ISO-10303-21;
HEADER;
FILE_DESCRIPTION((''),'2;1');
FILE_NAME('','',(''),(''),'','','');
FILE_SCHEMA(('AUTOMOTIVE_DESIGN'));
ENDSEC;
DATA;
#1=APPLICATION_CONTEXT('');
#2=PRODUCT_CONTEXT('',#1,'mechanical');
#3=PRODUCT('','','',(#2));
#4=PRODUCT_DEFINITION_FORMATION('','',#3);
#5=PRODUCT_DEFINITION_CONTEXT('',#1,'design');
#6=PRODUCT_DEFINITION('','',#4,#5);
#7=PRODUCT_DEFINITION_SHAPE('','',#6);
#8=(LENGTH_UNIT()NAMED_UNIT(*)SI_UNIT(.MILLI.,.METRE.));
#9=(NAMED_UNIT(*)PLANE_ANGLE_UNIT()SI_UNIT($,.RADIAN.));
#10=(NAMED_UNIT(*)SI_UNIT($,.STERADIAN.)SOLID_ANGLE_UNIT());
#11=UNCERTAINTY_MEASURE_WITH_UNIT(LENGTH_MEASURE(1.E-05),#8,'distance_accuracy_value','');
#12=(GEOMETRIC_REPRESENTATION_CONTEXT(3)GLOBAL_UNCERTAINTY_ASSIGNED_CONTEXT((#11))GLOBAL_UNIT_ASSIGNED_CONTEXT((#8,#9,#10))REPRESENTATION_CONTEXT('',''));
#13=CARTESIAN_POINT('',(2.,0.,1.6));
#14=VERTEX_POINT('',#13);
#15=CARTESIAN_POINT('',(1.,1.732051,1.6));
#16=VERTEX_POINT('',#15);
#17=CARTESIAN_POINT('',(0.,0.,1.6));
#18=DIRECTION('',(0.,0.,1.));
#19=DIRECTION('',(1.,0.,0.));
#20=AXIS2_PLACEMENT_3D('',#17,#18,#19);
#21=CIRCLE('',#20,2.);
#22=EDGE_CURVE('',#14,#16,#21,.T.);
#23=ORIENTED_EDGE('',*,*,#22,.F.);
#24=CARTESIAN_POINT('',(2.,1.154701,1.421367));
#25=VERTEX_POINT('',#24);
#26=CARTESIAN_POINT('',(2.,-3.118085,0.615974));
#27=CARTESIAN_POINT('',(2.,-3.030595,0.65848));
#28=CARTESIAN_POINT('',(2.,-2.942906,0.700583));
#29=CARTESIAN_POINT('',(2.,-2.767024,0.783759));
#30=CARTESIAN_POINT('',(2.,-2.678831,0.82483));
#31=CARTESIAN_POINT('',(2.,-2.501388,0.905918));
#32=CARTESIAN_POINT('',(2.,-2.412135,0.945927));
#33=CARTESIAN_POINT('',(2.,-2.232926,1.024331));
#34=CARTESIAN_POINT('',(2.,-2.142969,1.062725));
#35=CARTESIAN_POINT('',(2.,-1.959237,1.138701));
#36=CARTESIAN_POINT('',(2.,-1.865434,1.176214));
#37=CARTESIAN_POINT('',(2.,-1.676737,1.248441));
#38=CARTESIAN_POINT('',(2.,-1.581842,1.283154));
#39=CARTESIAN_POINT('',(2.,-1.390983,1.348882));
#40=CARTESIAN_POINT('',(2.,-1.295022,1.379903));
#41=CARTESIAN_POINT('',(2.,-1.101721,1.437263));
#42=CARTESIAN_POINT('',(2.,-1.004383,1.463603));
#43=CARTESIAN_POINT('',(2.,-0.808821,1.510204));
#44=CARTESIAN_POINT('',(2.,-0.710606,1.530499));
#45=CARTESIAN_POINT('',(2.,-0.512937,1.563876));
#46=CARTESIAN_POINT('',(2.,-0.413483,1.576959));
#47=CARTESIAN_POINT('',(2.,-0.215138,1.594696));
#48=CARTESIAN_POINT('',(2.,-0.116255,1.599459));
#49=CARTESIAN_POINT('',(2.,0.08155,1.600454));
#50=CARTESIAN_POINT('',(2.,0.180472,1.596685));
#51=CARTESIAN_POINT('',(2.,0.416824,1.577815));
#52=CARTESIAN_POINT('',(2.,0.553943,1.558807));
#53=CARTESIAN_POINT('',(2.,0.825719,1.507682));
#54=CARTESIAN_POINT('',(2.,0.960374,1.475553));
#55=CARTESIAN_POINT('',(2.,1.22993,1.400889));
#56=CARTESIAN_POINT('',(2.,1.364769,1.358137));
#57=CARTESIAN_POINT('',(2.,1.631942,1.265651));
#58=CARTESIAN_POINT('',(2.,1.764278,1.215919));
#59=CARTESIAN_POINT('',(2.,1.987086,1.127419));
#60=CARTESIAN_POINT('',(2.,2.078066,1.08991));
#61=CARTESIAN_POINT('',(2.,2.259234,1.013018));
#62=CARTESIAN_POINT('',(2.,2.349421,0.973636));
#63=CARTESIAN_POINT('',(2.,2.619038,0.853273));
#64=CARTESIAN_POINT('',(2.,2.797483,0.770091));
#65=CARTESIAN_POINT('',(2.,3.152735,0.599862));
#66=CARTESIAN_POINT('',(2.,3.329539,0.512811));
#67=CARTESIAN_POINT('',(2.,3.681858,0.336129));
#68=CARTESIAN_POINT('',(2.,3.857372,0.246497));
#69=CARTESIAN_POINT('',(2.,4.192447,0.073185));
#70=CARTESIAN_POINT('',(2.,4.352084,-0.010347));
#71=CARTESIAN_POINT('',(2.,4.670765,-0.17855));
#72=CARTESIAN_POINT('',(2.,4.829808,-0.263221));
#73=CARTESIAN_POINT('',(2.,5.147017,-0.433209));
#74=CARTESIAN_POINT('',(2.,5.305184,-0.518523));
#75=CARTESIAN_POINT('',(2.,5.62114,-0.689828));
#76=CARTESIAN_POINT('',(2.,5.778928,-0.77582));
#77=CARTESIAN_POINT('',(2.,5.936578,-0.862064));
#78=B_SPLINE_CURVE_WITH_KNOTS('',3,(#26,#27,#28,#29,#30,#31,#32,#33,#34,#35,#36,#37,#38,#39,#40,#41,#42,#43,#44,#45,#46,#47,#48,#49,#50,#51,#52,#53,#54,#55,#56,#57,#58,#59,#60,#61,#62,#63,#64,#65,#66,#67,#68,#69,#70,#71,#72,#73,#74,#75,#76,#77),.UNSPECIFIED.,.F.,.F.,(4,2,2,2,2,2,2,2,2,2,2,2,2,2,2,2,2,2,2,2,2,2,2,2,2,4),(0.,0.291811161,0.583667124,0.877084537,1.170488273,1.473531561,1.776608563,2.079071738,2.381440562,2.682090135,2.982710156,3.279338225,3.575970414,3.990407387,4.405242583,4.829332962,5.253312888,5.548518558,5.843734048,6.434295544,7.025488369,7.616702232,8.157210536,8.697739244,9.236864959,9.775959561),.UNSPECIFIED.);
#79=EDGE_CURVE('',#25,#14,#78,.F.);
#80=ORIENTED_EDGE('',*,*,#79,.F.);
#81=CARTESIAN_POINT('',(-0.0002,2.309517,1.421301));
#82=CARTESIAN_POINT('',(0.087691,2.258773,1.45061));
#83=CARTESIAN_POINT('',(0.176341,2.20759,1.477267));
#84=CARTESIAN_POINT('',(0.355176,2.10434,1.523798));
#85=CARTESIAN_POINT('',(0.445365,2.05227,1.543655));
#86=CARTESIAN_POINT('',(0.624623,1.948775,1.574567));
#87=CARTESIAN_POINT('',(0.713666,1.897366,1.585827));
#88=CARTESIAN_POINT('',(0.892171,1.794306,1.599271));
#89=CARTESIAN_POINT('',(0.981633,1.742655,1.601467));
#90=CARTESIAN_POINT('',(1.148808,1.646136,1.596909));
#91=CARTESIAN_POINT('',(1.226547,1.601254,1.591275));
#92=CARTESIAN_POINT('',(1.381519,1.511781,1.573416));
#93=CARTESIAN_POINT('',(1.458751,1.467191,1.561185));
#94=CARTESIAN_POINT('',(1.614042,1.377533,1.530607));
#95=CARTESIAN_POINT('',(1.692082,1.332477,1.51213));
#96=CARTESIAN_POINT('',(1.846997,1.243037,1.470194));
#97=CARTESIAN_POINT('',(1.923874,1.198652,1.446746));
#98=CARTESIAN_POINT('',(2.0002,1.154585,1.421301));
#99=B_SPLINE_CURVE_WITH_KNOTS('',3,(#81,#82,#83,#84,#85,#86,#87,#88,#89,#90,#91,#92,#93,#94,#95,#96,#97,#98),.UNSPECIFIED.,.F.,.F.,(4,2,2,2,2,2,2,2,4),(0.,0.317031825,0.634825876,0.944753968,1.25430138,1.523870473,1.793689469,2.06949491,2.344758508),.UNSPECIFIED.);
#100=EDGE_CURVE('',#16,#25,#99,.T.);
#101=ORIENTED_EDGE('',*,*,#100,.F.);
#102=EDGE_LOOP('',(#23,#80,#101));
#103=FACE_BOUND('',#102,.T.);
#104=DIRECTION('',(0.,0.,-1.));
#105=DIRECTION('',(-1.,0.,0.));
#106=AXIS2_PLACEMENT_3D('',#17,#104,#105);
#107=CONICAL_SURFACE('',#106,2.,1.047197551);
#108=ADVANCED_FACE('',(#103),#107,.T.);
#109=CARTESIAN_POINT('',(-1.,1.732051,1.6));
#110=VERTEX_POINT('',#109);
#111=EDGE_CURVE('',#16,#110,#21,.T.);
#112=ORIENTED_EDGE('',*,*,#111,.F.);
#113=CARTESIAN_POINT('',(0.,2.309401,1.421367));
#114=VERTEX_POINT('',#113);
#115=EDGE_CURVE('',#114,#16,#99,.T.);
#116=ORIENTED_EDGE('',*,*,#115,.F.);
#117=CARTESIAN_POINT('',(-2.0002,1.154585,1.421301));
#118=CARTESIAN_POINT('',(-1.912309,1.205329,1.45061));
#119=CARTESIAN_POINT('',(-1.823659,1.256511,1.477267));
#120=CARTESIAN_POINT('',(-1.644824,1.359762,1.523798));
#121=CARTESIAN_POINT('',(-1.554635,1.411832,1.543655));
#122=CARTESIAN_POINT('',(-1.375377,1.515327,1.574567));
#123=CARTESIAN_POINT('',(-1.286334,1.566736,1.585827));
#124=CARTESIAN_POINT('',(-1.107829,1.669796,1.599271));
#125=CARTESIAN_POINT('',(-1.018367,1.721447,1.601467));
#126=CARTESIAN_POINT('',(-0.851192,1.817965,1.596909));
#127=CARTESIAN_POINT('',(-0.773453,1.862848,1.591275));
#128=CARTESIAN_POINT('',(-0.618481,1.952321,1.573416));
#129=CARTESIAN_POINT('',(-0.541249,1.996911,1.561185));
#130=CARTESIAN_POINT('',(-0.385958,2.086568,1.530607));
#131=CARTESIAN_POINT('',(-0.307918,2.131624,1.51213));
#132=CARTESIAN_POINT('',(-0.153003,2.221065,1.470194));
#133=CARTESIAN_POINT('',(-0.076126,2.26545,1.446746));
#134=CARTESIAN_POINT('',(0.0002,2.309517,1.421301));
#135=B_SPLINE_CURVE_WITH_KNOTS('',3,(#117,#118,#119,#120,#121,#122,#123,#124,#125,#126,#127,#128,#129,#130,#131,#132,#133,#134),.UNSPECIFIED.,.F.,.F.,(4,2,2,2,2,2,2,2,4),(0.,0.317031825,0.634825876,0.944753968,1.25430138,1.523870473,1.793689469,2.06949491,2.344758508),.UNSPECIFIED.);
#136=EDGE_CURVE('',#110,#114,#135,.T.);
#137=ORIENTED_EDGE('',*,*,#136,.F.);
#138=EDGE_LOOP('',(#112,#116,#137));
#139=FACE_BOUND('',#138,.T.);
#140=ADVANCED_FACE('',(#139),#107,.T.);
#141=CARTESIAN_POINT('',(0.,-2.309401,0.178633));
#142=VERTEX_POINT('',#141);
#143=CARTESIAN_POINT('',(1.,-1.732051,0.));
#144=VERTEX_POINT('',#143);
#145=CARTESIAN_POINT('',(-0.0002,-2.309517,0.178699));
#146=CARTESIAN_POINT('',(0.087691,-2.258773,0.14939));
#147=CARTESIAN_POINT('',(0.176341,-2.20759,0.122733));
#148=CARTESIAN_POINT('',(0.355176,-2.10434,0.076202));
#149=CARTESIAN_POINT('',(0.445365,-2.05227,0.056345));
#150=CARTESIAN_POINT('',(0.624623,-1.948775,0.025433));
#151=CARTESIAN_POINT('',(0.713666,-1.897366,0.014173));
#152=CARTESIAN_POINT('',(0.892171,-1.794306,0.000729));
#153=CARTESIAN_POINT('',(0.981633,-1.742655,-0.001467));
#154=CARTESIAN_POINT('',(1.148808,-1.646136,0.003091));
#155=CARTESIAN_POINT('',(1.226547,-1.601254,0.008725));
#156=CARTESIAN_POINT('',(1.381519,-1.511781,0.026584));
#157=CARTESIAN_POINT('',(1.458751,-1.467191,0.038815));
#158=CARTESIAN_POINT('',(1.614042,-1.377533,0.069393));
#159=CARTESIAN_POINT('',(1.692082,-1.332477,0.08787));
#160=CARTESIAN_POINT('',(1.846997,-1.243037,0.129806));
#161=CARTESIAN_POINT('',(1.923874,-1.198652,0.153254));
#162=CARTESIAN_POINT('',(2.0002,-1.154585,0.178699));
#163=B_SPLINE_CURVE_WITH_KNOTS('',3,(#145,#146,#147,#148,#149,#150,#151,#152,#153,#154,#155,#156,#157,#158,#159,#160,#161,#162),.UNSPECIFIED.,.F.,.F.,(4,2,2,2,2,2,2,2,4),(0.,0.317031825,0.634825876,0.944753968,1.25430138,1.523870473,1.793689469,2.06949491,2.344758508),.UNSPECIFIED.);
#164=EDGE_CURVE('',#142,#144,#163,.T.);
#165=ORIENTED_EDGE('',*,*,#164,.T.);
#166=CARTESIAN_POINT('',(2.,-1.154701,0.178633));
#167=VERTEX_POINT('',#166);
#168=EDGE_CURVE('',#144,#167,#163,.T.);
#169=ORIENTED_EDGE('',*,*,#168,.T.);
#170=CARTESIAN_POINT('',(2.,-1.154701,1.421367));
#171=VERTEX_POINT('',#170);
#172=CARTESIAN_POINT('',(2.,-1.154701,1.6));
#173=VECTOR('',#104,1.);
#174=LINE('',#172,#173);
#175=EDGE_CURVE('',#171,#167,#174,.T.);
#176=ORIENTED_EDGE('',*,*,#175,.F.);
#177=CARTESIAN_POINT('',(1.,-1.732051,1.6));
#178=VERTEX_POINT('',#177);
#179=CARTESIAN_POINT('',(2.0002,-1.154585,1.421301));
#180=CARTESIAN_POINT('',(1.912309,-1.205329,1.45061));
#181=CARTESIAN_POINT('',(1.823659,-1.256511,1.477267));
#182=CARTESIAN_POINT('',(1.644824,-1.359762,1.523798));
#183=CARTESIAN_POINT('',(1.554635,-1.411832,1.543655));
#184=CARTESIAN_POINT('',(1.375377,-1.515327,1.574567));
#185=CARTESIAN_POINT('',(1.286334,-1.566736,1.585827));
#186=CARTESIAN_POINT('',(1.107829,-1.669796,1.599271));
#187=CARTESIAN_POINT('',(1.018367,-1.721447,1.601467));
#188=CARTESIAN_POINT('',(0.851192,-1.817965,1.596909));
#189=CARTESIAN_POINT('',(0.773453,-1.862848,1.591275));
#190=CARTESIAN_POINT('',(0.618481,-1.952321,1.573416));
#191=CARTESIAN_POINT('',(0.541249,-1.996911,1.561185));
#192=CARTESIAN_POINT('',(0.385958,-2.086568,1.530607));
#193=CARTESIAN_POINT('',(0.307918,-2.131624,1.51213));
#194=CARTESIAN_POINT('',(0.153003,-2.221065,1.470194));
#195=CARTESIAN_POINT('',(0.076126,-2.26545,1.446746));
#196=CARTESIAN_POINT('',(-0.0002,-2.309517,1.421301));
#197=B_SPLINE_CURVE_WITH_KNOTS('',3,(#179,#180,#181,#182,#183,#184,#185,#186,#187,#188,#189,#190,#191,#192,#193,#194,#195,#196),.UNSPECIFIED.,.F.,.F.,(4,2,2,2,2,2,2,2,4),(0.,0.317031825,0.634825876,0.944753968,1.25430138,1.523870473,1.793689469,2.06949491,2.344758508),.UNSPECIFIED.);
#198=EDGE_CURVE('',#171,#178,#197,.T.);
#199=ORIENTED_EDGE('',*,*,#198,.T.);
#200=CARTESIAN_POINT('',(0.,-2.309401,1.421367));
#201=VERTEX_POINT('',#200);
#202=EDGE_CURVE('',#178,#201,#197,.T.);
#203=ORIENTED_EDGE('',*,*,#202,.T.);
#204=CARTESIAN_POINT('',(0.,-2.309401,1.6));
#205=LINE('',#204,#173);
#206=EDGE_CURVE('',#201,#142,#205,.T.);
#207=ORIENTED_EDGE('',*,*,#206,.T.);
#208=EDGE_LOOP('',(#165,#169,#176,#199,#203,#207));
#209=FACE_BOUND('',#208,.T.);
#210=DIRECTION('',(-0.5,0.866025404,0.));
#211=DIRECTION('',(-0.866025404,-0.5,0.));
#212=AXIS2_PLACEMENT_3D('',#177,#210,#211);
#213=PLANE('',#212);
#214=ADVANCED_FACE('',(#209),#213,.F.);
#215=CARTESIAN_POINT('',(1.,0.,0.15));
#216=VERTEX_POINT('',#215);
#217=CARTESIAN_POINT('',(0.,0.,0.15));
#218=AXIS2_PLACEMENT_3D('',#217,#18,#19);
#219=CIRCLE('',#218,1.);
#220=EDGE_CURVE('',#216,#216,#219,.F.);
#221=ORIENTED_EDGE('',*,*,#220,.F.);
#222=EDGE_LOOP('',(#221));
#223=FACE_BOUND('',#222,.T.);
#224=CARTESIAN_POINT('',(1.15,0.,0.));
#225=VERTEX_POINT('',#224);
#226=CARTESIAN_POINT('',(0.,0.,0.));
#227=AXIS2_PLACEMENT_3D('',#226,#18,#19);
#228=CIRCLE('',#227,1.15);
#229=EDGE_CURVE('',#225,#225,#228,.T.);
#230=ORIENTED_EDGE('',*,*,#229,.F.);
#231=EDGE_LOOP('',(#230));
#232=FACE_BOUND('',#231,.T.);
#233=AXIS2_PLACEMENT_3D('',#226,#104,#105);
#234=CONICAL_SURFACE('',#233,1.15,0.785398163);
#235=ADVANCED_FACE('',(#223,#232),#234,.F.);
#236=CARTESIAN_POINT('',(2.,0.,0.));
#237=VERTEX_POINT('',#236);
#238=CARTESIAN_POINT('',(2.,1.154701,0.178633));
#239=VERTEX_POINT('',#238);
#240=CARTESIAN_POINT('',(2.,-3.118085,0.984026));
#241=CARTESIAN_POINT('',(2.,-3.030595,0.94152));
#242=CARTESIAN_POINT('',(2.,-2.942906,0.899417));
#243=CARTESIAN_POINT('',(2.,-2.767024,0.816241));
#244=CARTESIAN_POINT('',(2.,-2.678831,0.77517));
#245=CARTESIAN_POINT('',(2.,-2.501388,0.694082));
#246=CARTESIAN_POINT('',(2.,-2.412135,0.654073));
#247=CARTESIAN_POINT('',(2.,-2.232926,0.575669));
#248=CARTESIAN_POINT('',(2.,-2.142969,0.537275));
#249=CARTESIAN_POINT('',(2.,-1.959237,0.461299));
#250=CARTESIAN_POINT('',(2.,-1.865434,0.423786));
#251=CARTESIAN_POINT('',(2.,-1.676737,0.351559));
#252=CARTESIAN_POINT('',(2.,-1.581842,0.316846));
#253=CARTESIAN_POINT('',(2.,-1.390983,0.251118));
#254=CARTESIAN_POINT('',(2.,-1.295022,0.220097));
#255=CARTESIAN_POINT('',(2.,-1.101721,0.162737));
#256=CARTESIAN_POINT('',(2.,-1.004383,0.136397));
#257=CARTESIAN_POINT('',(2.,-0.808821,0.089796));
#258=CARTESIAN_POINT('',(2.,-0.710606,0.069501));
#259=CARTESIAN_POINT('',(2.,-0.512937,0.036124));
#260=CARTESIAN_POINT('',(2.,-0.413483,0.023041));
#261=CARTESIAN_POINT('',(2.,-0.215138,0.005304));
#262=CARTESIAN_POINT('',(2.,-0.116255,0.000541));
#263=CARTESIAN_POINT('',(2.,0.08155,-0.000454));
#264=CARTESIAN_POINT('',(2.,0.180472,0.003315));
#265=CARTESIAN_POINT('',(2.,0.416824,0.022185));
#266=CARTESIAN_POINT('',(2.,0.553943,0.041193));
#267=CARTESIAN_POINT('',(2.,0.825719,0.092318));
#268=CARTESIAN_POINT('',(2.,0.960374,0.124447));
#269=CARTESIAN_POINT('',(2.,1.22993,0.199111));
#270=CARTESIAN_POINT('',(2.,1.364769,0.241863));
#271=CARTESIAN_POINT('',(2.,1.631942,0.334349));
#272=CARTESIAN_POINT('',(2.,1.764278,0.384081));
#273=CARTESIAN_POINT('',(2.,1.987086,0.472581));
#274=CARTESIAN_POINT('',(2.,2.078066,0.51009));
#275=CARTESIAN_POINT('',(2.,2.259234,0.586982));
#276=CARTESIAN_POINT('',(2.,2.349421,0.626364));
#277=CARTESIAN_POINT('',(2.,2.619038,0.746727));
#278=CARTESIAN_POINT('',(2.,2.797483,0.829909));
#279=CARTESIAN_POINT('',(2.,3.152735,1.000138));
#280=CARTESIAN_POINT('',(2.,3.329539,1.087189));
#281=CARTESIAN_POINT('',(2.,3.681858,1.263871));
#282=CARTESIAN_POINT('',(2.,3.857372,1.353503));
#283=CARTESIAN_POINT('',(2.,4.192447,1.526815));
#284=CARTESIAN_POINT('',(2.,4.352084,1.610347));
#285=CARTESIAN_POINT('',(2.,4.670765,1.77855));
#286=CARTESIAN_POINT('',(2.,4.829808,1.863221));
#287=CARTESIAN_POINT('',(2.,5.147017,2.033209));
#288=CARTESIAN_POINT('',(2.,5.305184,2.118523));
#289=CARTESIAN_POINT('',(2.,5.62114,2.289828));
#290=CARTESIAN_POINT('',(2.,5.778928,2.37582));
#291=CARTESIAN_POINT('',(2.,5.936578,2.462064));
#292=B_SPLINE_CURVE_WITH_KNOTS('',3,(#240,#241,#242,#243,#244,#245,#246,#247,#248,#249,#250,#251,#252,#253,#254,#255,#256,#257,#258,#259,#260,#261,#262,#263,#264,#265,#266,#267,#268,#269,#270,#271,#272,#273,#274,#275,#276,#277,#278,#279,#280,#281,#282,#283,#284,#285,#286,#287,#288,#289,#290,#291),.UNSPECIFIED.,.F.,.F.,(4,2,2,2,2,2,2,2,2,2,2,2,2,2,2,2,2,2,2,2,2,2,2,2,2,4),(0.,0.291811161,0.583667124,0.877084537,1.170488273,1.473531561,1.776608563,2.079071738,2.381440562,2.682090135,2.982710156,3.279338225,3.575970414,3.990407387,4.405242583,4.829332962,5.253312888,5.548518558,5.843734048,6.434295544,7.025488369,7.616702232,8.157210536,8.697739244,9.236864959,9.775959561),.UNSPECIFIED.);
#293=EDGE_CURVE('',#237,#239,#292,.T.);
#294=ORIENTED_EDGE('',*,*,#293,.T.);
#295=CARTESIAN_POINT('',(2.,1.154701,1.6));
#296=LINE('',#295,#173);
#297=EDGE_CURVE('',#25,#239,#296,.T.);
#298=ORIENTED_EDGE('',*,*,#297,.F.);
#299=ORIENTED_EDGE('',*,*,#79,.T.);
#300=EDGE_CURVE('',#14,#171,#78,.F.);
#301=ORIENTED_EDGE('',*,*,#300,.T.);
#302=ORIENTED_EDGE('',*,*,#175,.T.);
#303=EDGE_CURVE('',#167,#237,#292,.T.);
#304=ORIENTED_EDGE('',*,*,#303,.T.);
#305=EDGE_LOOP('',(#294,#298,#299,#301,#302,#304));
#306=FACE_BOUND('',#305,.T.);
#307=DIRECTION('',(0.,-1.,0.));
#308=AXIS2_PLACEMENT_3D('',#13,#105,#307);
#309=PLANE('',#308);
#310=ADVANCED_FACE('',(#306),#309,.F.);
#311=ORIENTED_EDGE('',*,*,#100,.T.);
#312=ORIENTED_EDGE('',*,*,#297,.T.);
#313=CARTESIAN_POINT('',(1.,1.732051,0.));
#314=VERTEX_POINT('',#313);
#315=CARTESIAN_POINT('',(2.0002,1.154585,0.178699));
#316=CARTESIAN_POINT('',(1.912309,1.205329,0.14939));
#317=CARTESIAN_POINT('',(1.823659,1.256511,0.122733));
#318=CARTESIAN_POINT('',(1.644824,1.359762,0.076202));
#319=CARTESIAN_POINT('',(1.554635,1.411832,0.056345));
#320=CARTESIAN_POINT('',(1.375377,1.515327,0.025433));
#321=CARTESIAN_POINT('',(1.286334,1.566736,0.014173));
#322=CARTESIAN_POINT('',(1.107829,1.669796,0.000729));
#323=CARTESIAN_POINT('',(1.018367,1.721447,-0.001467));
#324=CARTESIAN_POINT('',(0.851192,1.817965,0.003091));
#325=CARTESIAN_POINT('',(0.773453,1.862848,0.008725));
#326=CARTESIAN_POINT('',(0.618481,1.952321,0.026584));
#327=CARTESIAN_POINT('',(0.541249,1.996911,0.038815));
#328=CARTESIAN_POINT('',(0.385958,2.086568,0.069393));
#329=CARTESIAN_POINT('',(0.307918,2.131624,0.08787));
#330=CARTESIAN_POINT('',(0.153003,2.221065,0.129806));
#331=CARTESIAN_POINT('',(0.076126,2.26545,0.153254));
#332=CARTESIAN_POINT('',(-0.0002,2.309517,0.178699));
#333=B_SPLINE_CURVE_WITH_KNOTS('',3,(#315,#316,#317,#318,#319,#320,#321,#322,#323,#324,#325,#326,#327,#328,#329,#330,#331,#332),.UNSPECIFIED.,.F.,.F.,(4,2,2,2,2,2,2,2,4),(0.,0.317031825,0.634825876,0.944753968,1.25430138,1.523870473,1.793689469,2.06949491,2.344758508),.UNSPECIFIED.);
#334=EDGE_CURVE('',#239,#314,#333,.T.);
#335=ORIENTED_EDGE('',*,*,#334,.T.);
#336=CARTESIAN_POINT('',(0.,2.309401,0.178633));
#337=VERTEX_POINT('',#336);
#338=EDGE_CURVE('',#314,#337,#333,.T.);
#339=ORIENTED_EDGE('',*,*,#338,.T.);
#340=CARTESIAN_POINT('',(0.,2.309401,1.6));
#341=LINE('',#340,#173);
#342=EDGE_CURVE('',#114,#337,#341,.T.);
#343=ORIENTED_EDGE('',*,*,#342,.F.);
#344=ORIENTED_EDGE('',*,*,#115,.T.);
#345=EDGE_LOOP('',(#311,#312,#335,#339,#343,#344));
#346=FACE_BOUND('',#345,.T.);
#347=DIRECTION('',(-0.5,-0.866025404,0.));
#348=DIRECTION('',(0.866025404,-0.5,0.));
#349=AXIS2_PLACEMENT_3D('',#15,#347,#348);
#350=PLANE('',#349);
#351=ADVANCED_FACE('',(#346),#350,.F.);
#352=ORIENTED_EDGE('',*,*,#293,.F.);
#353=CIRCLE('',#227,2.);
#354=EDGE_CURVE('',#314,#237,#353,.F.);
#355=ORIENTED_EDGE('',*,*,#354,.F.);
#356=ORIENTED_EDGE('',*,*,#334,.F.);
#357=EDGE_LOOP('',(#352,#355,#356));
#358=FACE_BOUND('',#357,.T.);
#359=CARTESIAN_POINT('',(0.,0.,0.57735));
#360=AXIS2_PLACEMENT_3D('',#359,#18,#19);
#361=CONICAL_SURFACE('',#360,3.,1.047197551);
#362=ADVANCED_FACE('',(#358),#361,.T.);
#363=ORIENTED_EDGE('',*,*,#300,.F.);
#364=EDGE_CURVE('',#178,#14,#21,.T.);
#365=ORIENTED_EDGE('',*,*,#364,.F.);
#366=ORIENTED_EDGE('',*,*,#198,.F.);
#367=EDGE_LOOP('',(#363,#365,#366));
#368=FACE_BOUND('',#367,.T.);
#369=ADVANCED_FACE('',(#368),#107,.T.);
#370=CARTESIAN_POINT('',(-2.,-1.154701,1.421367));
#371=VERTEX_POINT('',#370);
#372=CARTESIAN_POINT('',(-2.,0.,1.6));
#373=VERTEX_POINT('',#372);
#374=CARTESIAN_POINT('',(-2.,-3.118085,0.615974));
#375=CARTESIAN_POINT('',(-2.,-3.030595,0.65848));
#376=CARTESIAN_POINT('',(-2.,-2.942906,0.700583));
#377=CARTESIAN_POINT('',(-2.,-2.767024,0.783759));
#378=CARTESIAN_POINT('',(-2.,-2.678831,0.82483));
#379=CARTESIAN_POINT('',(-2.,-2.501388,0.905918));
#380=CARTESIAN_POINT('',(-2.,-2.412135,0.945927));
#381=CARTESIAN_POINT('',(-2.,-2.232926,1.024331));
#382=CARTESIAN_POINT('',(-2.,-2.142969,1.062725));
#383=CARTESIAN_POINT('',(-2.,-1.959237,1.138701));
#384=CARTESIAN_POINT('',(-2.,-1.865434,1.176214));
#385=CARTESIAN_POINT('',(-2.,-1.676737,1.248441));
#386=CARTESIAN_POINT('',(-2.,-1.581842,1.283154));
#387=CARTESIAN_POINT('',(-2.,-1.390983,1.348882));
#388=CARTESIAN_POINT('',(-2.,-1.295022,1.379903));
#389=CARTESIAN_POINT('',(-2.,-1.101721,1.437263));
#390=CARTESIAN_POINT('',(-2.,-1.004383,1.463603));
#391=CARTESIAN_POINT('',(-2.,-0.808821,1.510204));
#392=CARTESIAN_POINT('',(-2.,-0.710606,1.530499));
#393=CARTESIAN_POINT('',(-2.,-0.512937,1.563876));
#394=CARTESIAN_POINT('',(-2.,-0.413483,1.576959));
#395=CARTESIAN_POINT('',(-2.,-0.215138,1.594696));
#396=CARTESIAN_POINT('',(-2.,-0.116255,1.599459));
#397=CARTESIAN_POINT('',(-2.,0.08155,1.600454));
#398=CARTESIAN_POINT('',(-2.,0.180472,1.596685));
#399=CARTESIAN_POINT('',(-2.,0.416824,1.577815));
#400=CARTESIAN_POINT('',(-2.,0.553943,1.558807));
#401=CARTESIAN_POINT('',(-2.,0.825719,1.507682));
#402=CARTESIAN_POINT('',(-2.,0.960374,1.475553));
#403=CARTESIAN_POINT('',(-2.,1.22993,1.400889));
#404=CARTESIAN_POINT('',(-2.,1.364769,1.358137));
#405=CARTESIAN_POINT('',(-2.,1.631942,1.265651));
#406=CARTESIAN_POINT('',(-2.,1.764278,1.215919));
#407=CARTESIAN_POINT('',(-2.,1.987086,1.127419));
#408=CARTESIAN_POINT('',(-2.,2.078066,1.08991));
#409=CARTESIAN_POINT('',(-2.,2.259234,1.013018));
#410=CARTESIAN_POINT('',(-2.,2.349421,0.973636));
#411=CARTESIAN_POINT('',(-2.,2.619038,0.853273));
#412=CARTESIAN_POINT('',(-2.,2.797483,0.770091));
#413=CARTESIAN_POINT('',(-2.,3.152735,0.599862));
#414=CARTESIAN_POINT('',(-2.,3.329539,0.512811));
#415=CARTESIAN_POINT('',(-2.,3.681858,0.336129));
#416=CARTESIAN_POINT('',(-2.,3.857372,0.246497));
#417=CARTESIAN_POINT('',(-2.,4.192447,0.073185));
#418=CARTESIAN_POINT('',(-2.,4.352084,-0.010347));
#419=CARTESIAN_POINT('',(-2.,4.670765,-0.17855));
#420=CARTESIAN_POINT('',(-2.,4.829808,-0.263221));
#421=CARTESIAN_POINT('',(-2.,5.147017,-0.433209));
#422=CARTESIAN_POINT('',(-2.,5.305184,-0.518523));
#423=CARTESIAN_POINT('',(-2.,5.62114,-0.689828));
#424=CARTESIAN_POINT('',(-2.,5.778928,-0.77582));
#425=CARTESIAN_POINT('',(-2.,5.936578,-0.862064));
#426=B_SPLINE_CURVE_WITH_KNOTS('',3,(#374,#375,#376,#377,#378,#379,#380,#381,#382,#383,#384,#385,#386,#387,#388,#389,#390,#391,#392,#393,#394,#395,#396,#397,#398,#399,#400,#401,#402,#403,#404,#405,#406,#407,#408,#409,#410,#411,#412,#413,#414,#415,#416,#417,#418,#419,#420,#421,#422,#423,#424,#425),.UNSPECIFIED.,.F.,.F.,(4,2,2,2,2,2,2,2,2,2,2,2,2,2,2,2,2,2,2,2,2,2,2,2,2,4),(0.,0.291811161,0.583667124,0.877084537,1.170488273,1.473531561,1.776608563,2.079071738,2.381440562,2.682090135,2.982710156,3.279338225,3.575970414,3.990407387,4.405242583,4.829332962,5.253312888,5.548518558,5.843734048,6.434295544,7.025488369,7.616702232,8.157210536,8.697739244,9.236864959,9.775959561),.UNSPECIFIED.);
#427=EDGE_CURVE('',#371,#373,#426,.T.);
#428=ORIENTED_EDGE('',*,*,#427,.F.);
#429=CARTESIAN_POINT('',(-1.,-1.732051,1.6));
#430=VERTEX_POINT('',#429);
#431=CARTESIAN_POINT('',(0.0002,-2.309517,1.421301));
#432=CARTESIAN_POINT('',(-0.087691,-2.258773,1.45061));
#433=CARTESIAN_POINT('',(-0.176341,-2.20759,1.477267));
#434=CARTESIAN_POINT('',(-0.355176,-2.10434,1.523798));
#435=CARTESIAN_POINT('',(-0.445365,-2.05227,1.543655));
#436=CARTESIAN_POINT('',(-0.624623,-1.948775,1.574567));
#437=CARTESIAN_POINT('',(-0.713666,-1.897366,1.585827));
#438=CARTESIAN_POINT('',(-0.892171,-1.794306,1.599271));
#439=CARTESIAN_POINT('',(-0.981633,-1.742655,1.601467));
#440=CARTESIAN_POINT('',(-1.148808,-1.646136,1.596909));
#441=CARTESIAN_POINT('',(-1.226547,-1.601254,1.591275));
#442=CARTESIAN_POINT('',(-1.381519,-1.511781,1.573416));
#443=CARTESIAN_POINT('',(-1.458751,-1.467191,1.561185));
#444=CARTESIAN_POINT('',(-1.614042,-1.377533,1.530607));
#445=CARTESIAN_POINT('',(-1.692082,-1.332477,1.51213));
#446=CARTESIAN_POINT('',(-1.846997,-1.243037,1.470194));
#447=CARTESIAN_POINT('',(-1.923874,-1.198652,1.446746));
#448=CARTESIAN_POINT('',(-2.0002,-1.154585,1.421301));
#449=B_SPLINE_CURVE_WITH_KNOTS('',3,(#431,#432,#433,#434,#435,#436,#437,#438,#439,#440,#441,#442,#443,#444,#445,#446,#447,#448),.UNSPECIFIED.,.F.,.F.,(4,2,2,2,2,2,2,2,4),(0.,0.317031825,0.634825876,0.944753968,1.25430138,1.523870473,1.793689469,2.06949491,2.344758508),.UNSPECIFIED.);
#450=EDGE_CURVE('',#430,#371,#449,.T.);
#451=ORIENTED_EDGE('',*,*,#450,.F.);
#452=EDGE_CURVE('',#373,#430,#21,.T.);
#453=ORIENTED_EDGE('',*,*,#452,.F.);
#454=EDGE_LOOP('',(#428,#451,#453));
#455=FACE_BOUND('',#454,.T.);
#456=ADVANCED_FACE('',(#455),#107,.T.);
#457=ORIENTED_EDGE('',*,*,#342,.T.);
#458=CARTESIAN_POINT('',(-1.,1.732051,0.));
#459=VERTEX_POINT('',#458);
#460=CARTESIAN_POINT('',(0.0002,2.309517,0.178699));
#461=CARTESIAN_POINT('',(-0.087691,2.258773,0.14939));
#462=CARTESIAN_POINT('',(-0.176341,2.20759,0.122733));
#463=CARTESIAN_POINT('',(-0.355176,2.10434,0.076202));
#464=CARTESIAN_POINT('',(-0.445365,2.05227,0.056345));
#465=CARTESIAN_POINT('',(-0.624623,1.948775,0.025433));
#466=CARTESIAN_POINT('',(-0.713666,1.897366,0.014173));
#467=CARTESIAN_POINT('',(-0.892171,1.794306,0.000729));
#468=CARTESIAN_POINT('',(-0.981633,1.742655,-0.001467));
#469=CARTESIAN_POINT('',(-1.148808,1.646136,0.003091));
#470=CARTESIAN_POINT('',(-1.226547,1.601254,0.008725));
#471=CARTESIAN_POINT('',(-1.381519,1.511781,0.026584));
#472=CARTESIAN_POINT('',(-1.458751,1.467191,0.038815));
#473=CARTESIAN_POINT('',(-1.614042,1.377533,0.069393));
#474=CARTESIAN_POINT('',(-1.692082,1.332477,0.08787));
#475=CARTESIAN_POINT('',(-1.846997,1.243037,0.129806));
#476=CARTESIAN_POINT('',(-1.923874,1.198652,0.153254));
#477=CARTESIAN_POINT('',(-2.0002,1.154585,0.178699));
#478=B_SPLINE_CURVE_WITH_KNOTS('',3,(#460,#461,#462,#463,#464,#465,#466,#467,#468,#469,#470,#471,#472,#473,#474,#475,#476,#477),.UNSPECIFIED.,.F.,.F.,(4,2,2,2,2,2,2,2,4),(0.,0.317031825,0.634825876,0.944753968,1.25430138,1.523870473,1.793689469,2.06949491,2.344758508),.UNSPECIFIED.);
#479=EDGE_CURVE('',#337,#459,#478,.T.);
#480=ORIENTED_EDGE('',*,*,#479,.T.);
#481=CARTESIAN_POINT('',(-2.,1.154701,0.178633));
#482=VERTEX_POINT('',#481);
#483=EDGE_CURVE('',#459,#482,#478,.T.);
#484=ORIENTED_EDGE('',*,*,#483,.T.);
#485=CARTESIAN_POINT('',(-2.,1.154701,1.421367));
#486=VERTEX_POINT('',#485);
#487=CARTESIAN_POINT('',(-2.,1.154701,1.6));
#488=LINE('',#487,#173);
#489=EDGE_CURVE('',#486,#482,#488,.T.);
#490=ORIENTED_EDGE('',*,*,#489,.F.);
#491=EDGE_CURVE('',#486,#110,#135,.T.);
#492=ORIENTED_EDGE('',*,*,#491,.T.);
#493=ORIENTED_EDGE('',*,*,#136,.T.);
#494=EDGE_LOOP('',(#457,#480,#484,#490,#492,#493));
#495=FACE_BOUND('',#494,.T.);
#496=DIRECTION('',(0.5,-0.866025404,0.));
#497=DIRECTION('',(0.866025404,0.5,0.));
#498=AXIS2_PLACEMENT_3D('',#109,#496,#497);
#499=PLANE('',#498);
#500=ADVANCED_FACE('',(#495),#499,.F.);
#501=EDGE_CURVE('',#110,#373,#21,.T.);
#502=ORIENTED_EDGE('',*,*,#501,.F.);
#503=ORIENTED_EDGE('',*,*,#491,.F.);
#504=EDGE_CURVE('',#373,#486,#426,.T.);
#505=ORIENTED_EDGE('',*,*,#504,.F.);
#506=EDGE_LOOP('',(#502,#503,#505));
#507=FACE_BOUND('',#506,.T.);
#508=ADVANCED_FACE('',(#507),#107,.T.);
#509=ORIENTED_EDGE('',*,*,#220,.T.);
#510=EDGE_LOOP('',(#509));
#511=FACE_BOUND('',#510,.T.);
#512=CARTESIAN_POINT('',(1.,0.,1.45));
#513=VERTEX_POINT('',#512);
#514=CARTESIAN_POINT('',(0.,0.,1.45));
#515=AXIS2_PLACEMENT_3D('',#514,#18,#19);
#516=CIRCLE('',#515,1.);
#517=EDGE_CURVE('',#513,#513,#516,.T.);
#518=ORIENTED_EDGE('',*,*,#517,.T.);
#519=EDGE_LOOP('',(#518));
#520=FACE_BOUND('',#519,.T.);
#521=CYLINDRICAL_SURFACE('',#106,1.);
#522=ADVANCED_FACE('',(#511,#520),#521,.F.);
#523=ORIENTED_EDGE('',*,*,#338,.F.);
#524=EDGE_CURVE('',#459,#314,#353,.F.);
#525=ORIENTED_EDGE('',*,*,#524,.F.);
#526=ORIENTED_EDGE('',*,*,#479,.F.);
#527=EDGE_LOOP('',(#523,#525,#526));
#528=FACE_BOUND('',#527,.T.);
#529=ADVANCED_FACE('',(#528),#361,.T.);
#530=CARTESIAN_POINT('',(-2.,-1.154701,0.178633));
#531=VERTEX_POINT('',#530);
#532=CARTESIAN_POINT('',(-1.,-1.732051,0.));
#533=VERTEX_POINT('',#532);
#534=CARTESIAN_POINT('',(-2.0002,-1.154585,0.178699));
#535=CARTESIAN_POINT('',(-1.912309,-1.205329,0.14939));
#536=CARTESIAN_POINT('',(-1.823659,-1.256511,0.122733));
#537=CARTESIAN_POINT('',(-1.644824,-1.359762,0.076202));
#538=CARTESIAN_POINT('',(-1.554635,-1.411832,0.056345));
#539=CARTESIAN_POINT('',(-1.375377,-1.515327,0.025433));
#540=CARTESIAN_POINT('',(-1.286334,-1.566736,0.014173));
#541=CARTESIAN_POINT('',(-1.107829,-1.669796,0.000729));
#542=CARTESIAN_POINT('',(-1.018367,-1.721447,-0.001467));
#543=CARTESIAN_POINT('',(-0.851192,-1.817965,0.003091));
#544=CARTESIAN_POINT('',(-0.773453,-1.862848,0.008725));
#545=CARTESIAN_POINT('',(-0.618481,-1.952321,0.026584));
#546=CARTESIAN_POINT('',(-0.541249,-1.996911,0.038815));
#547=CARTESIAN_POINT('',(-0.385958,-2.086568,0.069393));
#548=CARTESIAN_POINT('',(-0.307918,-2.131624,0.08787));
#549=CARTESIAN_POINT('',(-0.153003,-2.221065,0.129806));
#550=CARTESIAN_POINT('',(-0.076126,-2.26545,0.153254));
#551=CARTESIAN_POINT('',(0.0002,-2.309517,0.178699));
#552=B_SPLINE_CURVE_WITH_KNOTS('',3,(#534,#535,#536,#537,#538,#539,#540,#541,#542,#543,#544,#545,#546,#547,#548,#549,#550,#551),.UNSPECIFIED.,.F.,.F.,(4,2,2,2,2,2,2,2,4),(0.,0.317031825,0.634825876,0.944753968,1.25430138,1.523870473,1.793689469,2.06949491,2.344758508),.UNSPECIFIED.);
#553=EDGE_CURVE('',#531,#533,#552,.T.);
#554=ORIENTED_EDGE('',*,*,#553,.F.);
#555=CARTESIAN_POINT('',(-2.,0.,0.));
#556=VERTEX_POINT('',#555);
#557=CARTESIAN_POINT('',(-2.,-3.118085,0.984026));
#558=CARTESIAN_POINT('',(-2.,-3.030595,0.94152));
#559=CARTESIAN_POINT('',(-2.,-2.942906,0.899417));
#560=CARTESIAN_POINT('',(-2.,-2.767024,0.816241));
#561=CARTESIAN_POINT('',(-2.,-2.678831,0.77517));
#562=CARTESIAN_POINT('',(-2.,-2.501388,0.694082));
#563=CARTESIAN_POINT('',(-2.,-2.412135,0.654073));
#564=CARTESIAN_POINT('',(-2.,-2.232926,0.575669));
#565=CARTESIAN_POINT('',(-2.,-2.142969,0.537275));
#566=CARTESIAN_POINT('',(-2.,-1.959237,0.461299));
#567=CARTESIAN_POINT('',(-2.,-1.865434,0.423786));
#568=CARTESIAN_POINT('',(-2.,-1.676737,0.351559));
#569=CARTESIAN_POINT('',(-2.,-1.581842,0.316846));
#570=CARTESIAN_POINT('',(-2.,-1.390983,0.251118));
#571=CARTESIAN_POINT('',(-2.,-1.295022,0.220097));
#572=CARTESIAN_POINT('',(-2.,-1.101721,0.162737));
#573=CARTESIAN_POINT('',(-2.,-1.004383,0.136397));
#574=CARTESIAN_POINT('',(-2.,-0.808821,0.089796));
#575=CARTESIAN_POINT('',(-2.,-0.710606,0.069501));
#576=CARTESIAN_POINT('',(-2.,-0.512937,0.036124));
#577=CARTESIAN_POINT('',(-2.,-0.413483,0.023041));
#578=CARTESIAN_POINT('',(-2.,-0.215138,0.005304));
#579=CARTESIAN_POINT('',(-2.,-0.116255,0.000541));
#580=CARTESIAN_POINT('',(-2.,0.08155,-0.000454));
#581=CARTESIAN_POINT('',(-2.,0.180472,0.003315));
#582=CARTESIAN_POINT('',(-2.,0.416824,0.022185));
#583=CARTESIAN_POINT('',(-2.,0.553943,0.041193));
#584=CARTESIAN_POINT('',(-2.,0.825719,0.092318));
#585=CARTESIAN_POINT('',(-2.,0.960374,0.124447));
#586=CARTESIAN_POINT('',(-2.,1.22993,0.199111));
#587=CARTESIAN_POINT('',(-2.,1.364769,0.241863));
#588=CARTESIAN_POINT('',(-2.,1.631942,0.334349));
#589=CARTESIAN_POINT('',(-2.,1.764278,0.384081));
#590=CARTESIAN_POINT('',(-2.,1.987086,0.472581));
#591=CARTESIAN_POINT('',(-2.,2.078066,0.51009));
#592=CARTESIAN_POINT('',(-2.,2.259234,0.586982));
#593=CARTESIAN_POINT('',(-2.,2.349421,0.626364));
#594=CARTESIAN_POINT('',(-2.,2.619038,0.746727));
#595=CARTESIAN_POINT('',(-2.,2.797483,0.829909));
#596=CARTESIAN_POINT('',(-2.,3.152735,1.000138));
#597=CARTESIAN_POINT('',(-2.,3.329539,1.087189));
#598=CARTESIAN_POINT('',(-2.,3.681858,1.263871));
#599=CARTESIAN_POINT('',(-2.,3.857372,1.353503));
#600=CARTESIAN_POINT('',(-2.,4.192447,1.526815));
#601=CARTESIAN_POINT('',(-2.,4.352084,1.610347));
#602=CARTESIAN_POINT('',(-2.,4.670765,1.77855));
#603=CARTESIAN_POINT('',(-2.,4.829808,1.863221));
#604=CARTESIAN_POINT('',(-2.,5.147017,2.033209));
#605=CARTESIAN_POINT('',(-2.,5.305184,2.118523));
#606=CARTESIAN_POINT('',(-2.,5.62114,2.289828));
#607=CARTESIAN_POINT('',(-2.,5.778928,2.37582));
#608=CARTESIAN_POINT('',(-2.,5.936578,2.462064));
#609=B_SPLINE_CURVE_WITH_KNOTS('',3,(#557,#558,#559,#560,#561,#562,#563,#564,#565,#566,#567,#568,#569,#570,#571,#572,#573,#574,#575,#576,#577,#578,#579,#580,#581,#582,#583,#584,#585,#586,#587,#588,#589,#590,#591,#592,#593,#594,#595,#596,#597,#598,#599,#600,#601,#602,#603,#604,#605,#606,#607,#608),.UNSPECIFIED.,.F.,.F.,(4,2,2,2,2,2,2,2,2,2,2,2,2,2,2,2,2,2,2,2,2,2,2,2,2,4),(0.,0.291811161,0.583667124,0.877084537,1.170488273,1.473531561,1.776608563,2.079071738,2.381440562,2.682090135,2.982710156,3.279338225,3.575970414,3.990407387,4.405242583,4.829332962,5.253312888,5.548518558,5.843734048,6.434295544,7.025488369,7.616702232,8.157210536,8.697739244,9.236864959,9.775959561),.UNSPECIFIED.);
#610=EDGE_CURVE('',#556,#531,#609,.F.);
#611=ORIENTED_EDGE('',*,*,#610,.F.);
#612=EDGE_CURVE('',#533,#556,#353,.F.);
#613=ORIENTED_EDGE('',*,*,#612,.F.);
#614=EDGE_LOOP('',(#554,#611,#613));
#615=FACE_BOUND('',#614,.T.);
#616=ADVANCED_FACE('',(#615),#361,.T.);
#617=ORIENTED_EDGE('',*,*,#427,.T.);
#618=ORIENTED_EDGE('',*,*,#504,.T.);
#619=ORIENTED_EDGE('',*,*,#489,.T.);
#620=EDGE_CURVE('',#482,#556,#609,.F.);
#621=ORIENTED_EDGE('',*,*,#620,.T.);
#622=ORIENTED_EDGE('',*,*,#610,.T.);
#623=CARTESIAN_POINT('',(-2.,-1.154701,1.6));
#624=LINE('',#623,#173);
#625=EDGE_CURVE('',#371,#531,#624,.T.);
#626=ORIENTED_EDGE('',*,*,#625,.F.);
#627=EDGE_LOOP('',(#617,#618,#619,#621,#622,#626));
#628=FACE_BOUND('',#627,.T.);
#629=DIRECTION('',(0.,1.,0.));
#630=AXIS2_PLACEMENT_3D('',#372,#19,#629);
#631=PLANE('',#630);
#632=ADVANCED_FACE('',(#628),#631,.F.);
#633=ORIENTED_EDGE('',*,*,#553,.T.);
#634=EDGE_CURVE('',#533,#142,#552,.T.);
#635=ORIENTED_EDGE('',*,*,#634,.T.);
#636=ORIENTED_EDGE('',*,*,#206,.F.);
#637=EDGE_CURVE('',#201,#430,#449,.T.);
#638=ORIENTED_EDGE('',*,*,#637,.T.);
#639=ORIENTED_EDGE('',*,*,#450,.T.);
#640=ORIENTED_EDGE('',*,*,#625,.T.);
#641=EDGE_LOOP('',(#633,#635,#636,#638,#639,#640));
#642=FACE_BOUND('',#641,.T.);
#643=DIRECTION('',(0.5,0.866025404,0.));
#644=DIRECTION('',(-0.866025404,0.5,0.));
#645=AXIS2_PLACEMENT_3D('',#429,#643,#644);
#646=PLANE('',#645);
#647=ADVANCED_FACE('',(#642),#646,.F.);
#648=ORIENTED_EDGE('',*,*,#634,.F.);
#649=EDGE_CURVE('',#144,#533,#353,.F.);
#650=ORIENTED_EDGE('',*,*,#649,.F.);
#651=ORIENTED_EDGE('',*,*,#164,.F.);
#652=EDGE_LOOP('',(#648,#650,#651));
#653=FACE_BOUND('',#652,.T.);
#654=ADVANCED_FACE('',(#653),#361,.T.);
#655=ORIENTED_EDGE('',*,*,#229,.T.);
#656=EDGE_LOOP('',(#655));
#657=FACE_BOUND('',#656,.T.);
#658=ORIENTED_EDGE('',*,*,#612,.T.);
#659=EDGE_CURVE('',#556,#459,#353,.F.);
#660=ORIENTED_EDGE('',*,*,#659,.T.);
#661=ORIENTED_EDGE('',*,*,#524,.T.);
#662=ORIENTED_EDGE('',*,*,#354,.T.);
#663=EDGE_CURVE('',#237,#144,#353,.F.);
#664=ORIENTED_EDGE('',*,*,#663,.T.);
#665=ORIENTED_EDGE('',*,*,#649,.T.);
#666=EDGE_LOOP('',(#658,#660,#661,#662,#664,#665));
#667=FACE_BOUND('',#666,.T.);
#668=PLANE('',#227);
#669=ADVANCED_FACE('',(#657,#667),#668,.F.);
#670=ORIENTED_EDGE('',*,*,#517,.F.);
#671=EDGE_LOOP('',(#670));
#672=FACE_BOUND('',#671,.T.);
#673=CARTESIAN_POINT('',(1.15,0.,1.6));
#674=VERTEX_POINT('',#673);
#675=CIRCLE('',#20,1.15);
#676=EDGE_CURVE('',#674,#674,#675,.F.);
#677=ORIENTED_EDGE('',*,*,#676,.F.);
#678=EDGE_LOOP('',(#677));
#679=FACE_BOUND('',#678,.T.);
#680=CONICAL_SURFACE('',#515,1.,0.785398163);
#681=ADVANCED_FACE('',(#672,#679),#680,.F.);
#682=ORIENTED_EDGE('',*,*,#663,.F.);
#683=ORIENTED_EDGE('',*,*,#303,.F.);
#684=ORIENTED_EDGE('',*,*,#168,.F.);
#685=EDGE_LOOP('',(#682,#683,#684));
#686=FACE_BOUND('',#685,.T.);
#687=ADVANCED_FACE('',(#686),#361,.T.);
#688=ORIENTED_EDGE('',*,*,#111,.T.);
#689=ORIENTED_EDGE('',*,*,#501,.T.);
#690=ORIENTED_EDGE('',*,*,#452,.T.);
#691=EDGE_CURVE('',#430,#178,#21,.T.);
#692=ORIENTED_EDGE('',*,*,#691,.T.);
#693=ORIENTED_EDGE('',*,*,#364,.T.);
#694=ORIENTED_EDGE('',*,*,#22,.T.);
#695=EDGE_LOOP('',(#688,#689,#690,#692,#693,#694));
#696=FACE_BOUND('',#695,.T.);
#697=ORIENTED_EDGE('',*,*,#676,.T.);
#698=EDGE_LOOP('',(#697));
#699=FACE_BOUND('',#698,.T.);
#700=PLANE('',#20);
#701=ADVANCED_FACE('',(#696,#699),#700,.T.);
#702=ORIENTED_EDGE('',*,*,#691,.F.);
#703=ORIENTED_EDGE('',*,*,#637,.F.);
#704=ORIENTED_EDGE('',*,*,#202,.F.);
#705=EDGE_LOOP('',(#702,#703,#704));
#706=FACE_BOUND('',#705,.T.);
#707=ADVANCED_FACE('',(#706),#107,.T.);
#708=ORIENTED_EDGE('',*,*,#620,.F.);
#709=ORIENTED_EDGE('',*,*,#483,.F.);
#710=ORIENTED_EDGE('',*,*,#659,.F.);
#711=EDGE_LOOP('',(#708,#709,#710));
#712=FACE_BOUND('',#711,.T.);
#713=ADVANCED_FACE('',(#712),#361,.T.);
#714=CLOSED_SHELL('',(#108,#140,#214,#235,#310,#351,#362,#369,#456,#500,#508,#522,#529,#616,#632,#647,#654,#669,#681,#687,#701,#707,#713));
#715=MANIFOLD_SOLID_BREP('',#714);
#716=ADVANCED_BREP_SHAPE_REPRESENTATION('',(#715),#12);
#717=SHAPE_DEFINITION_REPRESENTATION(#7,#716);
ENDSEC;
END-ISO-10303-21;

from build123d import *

# Parameters (mm, degrees)
SKETCH1_R           = 3
SKETCH1_R_2         = 1
BOSS_EXTRUDE1_DEPTH = 1.6
CHAMFER1_SIZE       = 1
CHAMFER1_SIZE2      = 0.577350269
CHAMFER2_SIZE       = 1
CHAMFER2_SIZE2      = 0.577350269
SKETCH1_3_R         = 3
CUT_EXTRUDE1_DEPTH  = 2.6
CHAMFER3_SIZE       = 0.15


with BuildPart() as part:
    # Sketch1 → Boss-Extrude1 (new body)
    with BuildSketch(Plane.XY):
        Circle(SKETCH1_R)
        Polygon((2, 1.154700538), (0, 2.309401077), (-2, 1.154700538), (-2, -1.154700538), (0, -2.309401077), (2, -1.154700538), align=None, mode=Mode.SUBTRACT)
        Polygon((2, -1.154700538), (2, 1.154700538), (0, 2.309401077), (-2, 1.154700538), (-2, -1.154700538), (0, -2.309401077), align=None)
        Circle(SKETCH1_R_2, mode=Mode.SUBTRACT)
    extrude(amount=BOSS_EXTRUDE1_DEPTH)

    # Chamfer1
    chamfer1_edges = [part.edges().sort_by_distance(p)[0] for p in [
        (-3, 0, 1.6),
    ]]
    chamfer1_side = [part.faces().sort_by_distance(p)[0] for p in [
        (-2.915147186, 0, 1.6),
    ]]
    chamfer(chamfer1_edges, length=CHAMFER1_SIZE, length2=CHAMFER1_SIZE2, reference=chamfer1_side[0])

    # Chamfer2
    chamfer2_edges = [part.edges().sort_by_distance(p)[0] for p in [
        (-3, 0, 0),
    ]]
    chamfer2_side = [part.faces().sort_by_distance(p)[0] for p in [
        (-2.915147186, 0, 0),
    ]]
    chamfer(chamfer2_edges, length=CHAMFER2_SIZE, length2=CHAMFER2_SIZE2, reference=chamfer2_side[0])

    # Sketch1<3> → Cut-Extrude1 (cut, through all)
    with BuildSketch(Plane.XY):
        Circle(SKETCH1_3_R)
        Polygon((2, 1.154700538), (0, 2.309401077), (-2, 1.154700538), (-2, -1.154700538), (0, -2.309401077), (2, -1.154700538), align=None, mode=Mode.SUBTRACT)
    extrude(amount=CUT_EXTRUDE1_DEPTH, mode=Mode.SUBTRACT)

    # Chamfer3
    chamfer3_edges = [part.edges().sort_by_distance(p)[0] for p in [
        (-1, 0, 0),
        (-1, 0, 1.6),
    ]]
    chamfer(chamfer3_edges, length=CHAMFER3_SIZE)


solid = part.part
